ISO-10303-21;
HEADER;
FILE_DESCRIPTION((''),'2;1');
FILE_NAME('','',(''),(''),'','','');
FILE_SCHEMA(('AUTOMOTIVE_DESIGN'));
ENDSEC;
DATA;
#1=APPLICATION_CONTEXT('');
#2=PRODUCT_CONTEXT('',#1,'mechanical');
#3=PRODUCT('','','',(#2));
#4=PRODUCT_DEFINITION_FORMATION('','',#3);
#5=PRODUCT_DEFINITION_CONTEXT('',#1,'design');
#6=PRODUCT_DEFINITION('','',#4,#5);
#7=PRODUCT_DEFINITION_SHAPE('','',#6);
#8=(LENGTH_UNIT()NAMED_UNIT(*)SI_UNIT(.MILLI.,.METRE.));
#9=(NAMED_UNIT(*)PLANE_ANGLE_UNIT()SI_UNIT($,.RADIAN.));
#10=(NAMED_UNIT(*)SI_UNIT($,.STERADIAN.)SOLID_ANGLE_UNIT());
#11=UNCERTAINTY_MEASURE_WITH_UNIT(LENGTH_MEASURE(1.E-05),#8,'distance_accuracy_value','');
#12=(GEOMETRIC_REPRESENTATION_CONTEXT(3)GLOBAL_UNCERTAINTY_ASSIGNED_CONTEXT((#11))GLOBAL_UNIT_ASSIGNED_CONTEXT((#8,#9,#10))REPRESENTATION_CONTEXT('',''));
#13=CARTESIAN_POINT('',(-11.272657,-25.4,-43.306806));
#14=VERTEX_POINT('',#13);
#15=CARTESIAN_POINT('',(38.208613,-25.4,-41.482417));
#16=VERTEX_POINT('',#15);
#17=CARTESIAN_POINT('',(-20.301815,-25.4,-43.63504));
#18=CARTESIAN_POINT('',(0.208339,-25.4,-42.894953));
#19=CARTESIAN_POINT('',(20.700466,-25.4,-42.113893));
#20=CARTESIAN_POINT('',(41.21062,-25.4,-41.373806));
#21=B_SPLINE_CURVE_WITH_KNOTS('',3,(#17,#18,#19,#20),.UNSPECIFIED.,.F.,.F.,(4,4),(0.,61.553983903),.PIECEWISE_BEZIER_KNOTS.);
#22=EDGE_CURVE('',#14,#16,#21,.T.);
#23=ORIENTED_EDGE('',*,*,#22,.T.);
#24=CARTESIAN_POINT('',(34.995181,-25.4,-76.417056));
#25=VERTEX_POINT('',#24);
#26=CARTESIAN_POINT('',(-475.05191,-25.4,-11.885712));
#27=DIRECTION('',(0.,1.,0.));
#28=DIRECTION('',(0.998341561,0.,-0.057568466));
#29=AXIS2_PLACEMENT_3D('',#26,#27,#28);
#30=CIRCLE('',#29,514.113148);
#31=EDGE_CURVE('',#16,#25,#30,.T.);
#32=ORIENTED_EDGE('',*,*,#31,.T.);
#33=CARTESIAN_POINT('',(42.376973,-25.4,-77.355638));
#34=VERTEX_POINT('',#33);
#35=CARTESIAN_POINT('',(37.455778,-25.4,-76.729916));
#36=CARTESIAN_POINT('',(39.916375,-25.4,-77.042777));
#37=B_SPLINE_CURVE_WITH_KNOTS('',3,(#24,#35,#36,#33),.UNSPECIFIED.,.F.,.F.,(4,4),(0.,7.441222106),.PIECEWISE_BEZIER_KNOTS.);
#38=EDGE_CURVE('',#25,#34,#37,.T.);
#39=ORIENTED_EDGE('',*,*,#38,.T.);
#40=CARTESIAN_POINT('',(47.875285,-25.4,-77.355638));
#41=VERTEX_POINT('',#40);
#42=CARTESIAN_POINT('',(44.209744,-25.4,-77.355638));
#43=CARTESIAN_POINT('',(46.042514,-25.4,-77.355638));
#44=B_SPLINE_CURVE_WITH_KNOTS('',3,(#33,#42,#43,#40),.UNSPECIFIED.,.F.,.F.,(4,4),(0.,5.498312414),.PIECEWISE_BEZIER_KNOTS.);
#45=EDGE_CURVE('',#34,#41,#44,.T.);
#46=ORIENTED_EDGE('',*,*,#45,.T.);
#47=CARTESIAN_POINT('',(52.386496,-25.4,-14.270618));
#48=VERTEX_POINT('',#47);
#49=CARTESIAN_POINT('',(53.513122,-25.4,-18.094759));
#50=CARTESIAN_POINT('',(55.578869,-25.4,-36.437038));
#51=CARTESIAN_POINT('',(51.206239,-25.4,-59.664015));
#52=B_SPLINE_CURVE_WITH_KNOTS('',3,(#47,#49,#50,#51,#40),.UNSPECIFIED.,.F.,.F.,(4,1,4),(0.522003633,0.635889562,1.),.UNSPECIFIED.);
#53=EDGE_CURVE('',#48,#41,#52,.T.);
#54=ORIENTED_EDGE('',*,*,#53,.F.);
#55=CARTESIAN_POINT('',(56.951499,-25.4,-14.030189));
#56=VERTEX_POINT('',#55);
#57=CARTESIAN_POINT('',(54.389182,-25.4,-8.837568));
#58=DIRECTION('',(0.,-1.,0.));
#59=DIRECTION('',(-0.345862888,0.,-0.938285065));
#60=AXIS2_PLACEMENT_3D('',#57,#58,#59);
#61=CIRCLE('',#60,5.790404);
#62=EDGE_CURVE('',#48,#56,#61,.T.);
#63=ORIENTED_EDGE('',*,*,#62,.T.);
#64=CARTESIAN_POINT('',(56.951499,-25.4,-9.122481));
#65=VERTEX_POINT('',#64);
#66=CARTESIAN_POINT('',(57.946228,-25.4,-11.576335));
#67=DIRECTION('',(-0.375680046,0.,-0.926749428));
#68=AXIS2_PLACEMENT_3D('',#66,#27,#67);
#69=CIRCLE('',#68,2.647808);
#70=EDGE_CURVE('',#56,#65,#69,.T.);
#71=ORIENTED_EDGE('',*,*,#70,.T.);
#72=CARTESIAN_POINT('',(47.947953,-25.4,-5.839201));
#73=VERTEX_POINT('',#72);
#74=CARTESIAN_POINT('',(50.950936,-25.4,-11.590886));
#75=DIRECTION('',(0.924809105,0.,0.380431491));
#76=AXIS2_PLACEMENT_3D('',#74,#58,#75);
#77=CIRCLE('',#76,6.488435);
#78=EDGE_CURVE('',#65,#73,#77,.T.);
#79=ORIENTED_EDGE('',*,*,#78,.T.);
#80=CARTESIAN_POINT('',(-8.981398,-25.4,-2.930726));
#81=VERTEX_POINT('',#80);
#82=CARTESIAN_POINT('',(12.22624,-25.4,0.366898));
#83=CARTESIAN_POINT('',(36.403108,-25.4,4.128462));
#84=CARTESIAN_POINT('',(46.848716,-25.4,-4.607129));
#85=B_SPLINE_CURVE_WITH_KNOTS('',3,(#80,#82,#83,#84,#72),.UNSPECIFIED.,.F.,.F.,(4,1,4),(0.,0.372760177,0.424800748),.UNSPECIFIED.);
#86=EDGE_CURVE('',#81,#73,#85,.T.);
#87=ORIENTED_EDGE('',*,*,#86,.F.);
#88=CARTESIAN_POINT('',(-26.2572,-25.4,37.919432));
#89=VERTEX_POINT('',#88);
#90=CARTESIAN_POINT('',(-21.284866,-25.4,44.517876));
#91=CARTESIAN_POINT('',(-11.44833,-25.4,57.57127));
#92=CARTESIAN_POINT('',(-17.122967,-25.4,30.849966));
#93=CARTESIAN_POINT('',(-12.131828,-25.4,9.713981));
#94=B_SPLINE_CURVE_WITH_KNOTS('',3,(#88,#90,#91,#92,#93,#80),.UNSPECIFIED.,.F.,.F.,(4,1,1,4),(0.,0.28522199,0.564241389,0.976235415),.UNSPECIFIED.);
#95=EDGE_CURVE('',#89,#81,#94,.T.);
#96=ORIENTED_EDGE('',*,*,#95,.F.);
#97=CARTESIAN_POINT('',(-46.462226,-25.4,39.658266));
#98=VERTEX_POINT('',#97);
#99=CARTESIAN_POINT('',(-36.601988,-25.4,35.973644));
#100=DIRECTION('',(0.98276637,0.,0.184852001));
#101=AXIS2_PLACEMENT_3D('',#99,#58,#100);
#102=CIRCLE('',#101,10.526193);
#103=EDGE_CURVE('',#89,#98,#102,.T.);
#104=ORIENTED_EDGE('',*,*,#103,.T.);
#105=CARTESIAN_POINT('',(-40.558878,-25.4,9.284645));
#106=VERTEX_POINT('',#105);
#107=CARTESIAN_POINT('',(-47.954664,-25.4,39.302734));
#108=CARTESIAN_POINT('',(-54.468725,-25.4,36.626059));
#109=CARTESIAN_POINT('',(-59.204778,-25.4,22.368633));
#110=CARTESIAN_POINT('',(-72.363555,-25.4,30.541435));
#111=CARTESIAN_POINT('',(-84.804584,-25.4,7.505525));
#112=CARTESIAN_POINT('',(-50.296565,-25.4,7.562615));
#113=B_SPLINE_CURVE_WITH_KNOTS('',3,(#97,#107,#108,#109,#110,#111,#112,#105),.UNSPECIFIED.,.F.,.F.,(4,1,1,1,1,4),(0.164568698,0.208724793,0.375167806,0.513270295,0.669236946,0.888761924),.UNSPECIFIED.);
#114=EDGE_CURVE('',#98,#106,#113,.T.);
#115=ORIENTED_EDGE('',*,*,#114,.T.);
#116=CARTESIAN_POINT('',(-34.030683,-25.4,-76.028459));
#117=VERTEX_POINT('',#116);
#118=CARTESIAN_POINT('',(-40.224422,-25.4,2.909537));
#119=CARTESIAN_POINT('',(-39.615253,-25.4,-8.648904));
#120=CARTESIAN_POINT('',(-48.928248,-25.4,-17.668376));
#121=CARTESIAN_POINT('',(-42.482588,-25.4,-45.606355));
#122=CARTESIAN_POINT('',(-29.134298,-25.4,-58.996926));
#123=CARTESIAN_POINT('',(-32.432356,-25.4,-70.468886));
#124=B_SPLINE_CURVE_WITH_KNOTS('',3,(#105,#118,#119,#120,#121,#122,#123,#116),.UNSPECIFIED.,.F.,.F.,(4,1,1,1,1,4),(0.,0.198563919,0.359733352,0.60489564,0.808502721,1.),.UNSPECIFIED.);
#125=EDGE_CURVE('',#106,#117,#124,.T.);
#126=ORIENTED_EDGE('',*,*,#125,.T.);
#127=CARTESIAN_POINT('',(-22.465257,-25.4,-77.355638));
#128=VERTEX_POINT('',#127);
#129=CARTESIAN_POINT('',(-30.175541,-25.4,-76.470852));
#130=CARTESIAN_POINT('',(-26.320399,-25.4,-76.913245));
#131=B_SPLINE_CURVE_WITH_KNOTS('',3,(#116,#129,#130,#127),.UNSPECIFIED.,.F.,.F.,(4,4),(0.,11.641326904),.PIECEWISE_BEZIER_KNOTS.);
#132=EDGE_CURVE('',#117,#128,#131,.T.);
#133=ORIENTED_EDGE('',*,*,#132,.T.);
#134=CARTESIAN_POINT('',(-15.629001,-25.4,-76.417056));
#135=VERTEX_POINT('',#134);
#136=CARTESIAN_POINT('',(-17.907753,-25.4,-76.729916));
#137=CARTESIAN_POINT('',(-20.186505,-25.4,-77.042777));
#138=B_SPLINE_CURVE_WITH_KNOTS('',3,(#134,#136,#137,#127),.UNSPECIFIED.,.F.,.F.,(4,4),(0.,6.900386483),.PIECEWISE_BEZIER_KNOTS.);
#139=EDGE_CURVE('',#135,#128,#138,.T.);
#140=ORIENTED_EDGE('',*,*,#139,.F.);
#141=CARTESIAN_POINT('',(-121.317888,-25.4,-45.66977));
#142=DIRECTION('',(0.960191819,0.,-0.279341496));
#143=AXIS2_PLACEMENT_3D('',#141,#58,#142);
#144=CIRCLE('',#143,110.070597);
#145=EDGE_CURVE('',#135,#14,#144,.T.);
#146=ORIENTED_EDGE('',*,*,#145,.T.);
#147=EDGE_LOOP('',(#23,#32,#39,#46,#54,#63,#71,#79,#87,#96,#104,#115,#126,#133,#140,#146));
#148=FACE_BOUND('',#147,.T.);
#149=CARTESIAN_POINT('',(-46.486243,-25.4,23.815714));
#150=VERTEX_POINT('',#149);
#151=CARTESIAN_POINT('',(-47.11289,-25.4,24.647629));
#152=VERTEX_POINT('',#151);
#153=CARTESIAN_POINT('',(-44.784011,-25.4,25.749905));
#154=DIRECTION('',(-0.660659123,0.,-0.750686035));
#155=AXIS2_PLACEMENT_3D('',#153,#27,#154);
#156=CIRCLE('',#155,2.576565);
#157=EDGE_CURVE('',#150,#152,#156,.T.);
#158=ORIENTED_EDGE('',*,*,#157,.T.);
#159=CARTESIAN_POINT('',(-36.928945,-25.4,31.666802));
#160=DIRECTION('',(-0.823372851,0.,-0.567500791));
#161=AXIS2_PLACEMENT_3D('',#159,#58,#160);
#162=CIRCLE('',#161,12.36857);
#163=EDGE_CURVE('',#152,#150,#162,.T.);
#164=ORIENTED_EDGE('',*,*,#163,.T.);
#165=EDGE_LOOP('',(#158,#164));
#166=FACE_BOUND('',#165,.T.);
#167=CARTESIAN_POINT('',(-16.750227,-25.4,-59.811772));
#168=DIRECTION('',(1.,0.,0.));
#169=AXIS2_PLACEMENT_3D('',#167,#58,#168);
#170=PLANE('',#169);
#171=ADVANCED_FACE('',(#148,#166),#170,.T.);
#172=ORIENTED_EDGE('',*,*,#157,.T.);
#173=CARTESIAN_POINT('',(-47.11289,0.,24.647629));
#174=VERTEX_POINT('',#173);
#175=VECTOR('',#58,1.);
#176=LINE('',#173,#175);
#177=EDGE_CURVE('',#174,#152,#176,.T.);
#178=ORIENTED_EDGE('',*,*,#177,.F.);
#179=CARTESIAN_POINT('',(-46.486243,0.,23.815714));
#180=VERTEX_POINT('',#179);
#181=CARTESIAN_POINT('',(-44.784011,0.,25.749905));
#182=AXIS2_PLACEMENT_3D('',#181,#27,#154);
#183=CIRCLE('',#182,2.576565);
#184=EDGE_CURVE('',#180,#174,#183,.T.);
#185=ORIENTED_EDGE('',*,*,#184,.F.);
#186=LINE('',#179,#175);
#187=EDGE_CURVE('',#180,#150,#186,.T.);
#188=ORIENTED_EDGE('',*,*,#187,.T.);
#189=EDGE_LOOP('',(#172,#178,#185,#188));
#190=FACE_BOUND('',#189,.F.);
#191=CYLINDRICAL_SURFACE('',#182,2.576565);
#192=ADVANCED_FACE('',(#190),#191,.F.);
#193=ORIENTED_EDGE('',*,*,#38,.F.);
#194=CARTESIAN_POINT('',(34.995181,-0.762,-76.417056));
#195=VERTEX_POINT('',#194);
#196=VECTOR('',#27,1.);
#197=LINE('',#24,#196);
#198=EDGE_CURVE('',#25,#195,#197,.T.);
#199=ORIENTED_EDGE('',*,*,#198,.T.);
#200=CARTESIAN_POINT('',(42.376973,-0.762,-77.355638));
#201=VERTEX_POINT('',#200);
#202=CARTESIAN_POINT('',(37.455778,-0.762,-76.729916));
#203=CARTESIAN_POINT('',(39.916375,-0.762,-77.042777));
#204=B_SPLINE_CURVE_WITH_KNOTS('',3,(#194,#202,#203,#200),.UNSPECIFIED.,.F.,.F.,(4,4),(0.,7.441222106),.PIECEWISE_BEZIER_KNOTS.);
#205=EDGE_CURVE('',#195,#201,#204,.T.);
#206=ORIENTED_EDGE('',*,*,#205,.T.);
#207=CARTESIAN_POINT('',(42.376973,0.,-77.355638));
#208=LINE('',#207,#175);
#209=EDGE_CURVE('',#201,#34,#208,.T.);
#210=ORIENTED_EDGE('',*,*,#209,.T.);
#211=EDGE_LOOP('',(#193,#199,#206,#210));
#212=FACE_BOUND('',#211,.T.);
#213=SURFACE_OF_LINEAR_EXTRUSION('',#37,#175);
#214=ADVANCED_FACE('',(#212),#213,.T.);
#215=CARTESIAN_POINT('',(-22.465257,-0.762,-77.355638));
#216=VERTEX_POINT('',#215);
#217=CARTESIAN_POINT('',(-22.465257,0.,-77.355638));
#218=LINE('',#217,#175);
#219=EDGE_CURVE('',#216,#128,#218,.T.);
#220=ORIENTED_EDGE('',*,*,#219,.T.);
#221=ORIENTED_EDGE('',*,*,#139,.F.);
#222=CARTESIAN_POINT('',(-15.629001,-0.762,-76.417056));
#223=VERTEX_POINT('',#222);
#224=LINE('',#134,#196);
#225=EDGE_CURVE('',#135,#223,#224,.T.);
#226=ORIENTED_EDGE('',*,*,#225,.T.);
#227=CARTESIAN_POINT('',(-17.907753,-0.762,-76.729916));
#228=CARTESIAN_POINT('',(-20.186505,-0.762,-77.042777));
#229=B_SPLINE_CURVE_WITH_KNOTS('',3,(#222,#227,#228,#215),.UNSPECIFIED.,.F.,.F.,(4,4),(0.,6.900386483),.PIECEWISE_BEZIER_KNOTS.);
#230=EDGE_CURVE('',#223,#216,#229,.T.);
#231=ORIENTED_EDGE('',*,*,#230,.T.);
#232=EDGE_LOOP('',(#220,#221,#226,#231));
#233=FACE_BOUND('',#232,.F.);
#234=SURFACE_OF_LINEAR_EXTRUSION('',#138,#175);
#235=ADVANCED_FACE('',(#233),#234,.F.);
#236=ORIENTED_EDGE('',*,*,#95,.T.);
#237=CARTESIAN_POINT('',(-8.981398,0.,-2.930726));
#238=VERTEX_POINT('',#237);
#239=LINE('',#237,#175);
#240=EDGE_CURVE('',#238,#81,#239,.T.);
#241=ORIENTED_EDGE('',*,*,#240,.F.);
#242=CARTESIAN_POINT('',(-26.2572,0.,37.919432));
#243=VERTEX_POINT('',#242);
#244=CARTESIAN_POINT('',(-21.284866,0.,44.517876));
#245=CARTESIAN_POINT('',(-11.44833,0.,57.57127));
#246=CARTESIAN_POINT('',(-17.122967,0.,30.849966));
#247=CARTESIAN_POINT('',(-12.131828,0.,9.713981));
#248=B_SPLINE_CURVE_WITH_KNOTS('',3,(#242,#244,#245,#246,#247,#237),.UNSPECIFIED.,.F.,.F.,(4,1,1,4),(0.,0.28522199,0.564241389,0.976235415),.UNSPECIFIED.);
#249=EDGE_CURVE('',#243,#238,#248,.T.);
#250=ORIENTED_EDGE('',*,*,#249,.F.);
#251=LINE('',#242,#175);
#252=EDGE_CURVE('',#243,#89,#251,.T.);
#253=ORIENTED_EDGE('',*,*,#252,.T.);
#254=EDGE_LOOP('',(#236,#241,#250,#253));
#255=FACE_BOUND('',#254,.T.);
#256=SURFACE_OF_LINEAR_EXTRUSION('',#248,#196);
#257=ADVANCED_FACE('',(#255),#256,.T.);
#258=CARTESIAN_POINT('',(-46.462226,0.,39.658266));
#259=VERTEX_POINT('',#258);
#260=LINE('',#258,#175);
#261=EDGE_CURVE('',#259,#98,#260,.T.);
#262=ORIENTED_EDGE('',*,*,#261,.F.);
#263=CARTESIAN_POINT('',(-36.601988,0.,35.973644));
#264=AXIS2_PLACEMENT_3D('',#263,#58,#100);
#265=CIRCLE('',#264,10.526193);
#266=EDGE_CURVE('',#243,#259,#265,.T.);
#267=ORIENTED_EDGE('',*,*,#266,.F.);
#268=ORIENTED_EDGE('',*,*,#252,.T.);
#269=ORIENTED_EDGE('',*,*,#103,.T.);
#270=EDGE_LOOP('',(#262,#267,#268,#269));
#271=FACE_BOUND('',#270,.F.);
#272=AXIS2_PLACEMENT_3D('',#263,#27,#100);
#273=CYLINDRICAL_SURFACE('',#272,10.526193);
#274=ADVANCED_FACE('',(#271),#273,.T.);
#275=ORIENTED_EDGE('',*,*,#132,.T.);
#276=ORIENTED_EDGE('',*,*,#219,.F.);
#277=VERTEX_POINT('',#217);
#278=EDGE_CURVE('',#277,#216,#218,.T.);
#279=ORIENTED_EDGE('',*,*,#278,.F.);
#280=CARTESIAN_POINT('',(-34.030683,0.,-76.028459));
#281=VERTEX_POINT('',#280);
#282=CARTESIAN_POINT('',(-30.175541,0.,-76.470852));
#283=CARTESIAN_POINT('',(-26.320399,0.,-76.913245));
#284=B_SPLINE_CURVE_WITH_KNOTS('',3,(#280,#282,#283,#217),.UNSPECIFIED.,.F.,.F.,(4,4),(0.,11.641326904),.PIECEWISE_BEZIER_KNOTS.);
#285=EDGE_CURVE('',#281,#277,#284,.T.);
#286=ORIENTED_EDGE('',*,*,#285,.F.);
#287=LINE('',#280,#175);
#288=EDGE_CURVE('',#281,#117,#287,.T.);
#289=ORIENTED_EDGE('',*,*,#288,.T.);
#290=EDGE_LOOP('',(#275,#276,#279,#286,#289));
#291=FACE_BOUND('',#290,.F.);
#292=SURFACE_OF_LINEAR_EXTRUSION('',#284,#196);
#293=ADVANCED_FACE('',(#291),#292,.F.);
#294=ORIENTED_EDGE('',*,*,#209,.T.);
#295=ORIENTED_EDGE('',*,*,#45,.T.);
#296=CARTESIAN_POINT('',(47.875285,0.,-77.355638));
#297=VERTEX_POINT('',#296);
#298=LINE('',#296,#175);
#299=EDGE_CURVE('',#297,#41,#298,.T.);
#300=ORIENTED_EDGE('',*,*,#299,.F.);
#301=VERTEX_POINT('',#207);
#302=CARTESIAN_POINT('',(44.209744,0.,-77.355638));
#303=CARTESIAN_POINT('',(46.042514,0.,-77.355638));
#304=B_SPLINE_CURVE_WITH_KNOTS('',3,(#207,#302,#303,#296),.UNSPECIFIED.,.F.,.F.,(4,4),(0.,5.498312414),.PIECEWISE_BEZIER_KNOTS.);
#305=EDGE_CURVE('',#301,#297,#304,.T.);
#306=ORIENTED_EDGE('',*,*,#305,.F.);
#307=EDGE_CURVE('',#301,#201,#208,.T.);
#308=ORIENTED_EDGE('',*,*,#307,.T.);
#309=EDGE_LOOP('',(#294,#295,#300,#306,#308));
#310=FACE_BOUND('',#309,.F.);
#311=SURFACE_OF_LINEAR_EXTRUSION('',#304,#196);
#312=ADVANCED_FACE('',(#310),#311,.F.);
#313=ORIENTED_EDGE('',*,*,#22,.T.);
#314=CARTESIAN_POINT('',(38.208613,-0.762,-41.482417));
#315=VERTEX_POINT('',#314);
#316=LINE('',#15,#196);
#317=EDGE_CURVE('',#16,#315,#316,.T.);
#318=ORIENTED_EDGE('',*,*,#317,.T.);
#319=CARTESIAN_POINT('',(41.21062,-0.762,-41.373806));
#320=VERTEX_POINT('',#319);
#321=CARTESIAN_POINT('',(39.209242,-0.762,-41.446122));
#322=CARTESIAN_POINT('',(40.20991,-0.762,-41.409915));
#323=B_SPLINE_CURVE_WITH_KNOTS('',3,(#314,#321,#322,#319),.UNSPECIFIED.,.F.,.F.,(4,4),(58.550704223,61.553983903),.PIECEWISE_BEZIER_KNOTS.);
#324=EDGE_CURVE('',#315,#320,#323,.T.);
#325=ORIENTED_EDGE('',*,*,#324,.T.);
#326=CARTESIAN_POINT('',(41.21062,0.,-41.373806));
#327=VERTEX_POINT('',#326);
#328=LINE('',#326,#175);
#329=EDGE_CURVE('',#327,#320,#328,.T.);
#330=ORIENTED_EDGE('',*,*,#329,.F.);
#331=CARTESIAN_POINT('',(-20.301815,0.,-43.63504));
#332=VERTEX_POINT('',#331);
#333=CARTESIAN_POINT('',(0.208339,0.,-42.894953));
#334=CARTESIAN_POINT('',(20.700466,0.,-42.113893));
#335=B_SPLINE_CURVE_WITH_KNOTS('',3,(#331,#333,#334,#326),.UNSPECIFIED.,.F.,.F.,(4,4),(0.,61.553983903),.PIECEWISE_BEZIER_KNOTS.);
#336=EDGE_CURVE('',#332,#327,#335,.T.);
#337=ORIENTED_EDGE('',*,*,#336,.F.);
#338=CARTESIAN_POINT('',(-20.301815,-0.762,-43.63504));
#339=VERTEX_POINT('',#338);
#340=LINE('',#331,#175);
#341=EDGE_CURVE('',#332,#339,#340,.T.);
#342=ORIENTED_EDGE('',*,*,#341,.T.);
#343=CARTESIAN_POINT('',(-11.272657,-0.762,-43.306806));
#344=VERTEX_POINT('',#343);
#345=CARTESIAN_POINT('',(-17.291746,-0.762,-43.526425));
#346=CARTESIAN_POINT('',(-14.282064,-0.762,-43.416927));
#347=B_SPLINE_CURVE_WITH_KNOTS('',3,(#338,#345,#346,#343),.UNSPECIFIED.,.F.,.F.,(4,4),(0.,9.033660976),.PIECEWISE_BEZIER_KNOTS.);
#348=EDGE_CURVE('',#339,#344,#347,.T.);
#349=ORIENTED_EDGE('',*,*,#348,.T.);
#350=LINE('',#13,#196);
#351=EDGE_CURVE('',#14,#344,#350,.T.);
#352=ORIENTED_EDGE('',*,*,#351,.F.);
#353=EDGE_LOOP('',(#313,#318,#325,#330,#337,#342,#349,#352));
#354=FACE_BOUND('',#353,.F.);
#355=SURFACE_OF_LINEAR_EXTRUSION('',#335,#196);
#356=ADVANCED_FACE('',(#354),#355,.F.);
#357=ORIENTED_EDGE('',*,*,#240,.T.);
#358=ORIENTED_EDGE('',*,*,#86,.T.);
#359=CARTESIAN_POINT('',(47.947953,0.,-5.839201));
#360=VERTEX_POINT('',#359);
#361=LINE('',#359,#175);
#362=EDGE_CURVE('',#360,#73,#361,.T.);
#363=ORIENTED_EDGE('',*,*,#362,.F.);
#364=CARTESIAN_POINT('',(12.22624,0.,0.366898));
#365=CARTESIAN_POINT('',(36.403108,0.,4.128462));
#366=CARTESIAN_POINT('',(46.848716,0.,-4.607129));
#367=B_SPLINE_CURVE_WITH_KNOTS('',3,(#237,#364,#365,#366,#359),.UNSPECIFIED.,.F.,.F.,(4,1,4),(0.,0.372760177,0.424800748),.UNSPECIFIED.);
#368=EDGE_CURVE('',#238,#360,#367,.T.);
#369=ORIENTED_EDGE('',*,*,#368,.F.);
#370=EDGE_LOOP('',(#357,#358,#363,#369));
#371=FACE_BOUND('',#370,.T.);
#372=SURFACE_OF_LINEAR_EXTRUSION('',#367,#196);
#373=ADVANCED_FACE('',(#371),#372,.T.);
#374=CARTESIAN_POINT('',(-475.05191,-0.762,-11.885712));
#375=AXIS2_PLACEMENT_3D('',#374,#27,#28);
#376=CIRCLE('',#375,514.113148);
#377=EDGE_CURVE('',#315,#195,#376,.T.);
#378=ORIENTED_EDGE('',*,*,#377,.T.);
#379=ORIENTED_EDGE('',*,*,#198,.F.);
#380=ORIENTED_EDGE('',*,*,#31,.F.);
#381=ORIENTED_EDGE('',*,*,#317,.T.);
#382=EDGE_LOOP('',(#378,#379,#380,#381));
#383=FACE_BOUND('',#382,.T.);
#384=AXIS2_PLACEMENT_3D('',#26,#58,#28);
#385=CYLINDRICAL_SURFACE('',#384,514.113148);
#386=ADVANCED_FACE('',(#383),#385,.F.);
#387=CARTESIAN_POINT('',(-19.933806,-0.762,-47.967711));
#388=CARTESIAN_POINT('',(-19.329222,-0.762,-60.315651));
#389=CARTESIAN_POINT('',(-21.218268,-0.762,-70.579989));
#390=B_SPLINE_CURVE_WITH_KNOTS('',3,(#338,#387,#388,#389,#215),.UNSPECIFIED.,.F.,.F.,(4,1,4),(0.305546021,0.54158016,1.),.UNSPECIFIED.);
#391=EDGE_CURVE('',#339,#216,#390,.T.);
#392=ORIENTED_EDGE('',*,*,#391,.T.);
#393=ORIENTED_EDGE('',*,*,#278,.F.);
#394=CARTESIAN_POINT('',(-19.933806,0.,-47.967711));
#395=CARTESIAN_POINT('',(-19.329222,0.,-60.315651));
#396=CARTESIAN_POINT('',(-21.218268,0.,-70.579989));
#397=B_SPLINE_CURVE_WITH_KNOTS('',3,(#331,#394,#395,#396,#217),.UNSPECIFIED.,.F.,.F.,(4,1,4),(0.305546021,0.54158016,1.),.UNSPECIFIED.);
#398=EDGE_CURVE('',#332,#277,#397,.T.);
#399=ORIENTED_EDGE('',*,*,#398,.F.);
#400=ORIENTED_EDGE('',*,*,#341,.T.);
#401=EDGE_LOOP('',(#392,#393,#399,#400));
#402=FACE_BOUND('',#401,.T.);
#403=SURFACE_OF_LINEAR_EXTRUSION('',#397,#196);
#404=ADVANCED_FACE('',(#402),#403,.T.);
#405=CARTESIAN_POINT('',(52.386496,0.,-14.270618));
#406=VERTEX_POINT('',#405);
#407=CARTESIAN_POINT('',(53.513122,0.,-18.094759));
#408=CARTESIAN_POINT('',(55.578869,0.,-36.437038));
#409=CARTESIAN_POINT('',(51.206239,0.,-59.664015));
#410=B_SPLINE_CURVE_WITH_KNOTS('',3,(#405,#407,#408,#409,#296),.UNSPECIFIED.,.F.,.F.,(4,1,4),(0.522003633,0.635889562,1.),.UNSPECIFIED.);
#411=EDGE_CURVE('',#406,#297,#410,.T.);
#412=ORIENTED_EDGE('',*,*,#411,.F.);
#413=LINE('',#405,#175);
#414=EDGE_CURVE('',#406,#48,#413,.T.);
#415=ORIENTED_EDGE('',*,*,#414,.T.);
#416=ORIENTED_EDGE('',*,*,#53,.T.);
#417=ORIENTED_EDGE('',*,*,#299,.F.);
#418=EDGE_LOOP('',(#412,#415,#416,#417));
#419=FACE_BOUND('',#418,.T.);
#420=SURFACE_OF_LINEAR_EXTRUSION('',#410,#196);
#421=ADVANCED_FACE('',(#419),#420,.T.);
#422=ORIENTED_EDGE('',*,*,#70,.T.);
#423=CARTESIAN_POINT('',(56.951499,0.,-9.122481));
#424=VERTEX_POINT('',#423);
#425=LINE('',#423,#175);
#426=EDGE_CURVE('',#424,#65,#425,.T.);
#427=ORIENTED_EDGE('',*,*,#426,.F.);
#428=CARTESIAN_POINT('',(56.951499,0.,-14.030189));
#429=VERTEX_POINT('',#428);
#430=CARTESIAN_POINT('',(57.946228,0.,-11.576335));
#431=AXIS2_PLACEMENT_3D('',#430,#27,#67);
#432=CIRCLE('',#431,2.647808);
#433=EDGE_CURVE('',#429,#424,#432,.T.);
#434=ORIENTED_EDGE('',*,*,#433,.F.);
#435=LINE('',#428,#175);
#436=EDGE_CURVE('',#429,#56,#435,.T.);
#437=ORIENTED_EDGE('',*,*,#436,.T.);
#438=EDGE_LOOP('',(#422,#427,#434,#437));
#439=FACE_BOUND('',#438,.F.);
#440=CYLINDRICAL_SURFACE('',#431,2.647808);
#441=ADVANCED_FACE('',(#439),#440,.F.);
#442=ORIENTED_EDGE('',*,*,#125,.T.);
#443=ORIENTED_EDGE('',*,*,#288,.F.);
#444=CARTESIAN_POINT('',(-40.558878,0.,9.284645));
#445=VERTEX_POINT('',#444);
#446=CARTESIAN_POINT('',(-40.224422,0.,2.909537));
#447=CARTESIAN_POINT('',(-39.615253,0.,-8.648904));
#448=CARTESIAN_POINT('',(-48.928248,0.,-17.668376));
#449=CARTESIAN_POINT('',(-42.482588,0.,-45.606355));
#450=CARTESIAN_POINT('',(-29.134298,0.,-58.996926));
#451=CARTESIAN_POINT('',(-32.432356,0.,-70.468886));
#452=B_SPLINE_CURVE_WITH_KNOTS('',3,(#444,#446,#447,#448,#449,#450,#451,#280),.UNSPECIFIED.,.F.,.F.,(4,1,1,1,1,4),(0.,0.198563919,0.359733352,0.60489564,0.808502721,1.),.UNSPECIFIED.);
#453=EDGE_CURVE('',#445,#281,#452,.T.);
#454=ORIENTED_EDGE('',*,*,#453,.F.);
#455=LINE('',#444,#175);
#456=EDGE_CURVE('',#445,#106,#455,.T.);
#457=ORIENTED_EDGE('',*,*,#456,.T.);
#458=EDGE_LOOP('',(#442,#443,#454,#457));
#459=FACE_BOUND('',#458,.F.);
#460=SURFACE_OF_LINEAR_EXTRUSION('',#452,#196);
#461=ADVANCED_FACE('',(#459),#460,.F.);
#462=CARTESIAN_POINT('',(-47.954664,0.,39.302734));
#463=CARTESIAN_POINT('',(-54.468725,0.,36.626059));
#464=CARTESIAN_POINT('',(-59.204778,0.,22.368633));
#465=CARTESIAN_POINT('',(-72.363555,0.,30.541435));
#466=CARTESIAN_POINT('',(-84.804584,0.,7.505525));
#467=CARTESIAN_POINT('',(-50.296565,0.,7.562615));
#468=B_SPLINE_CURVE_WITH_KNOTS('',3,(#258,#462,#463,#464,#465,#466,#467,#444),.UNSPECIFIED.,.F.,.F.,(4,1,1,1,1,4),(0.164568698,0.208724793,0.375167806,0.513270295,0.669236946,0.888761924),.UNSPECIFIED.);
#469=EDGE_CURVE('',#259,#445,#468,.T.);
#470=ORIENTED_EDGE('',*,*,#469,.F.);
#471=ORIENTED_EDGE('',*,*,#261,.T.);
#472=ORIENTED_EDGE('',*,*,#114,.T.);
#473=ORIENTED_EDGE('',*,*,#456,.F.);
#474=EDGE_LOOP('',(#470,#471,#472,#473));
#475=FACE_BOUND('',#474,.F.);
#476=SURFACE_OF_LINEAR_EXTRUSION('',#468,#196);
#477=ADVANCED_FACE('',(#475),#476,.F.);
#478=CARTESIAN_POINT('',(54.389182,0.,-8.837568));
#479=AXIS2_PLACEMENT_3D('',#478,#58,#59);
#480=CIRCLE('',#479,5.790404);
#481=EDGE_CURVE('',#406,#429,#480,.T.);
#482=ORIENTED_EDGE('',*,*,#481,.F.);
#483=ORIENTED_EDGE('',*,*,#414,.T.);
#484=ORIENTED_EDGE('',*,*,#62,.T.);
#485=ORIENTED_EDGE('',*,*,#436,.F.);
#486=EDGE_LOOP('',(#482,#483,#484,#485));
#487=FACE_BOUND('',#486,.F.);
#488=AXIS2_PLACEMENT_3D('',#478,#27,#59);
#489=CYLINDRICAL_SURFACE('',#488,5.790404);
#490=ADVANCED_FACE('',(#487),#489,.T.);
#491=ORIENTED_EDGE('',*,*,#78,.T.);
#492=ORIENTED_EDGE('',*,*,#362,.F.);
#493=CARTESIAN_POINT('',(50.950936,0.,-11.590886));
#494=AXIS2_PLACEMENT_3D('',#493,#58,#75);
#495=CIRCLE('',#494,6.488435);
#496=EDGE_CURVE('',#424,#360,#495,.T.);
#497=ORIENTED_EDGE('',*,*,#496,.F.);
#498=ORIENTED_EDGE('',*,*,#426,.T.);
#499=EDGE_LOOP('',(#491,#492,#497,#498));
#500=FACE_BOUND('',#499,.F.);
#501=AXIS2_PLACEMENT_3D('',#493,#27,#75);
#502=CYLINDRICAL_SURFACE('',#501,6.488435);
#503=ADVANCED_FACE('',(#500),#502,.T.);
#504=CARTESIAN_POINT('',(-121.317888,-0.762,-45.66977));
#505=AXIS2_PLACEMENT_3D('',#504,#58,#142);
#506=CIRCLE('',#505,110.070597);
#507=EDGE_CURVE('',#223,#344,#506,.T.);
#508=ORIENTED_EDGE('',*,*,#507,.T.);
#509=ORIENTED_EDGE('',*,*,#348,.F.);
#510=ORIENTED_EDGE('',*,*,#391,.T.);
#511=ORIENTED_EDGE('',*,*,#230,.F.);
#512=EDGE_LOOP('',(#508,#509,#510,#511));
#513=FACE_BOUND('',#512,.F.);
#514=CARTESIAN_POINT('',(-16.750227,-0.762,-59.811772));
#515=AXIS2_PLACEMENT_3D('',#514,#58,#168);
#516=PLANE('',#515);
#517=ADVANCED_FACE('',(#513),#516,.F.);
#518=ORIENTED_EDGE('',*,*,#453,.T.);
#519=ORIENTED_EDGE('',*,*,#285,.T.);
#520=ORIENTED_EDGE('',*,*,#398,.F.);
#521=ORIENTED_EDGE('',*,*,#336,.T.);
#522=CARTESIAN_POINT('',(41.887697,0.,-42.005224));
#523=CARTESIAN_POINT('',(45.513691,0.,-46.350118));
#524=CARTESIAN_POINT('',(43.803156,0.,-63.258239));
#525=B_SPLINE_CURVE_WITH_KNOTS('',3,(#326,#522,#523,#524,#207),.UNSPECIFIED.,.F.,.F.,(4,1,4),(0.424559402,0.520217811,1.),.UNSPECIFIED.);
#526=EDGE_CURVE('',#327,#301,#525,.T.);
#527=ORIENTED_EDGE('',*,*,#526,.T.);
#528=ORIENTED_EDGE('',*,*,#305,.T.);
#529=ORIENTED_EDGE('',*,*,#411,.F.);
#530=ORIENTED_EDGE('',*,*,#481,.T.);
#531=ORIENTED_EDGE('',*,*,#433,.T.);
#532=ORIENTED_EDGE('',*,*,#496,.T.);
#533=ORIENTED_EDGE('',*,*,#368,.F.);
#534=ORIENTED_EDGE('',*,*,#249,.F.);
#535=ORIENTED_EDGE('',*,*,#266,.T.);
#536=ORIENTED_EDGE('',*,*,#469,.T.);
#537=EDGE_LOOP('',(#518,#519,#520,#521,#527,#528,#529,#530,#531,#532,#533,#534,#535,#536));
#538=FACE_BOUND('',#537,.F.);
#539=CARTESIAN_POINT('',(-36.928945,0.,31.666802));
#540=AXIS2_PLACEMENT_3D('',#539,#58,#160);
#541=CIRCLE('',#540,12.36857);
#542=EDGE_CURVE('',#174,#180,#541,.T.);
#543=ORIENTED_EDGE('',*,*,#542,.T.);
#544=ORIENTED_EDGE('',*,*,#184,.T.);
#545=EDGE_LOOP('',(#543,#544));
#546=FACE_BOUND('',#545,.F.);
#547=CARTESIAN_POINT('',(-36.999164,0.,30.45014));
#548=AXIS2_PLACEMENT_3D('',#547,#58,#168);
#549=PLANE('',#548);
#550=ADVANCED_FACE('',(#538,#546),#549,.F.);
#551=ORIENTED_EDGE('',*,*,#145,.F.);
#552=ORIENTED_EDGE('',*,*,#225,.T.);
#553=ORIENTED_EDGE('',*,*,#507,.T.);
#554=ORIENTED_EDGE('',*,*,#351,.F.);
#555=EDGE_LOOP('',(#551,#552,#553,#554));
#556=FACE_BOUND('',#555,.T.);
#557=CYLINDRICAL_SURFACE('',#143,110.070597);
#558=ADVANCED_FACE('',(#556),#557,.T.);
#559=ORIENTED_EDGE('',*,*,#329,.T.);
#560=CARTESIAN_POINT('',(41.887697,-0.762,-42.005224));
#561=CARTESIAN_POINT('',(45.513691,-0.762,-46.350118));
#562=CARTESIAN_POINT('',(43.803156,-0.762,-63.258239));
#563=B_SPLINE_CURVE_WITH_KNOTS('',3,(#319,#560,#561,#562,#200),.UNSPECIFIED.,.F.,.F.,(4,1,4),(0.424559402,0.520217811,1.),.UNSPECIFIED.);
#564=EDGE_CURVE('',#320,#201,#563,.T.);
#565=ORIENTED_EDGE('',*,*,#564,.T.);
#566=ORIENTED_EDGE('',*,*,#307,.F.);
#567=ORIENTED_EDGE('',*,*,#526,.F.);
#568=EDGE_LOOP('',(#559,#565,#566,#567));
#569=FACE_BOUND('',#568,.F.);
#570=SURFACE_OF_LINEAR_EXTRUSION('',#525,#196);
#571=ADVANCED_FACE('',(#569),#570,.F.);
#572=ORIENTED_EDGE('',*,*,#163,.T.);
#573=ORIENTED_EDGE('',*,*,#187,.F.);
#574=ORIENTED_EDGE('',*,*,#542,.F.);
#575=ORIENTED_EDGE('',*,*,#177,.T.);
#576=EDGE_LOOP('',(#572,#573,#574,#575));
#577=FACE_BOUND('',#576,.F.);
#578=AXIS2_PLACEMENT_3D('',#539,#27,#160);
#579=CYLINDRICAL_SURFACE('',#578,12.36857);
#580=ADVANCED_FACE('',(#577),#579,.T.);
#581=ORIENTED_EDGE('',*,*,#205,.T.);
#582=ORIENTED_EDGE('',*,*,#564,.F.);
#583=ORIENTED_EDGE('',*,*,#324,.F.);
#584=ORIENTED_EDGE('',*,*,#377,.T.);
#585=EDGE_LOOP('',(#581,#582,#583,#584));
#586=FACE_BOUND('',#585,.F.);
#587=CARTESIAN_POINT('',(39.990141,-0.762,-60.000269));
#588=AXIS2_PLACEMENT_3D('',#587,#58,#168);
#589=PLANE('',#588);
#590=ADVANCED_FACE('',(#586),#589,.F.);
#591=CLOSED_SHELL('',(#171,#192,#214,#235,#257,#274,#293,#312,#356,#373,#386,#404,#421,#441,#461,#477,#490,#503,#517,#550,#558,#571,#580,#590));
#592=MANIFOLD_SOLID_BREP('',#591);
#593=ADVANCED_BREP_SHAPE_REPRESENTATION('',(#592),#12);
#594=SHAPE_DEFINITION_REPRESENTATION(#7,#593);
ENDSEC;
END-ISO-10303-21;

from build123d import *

# Parameters (mm, degrees)
F1_DEPTH = 25.4
F3_DEPTH = 24.638


with BuildPart() as f1:
    # F0 (on Front) → F1 (new body)
    with BuildSketch(Plane.XZ):
        with BuildLine():
            ThreePointArc((-46.4862426009, 23.8157141108), (-29.8551050215, 21.5207532176), (-26.2572001666, 37.9194319248))
            add(Edge.make_bspline(
                [(-26.2572001666, 37.9194319248), (-33.5785732102, 39.4513797897), (-40.8999462537, 40.9833276545), (-46.4622259382, 39.6582663738)],
                knots=[0, 0, 0, 0, 0.1645686981, 0.1645686981, 0.1645686981, 0.1645686981], degree=3))
            ThreePointArc((-46.4622259382, 39.6582663738), (-46.7732025891, 33.2630857663), (-43.3209426701, 27.8707817197))
            ThreePointArc((-43.3209426701, 27.8707817197), (-42.75295438, 24.1645052215), (-46.4862426009, 23.8157141108))
        make_face()
        with BuildLine():
            add(Edge.make_bspline(
                [(-26.2572001666, 37.9194319248), (-33.5785732102, 39.4513797897), (-40.8999462537, 40.9833276545), (-46.4622259382, 39.6582663738)],
                knots=[0, 0, 0, 0, 0.1645686981, 0.1645686981, 0.1645686981, 0.1645686981], degree=3))
            ThreePointArc((-26.2572001666, 37.9194319248), (-35.699445364, 46.4610721536), (-46.4622259382, 39.6582663738))
        make_face()
        with BuildLine():
            add(Edge.make_bspline(
                [(-26.2572001666, 37.9194319248), (-21.2848663216, 44.5178757287), (-11.4483296844, 57.5712700198), (-17.1229667839, 30.8499658929), (-12.1318281567, 9.7139809287), (-8.9813978684, -2.9307255803)],
                knots=[0, 0, 0, 0, 0.2852219899, 0.5642413886, 0.9762354153, 0.9762354153, 0.9762354153, 0.9762354153], degree=3))
            ThreePointArc((-26.2572001666, 37.9194319248), (-29.8551050215, 21.5207532176), (-46.4862426009, 23.8157141108))
            ThreePointArc((-46.4862426009, 23.8157141108), (-42.75295438, 24.1645052215), (-43.3209426701, 27.8707817197))
            ThreePointArc((-43.3209426701, 27.8707817197), (-46.7732025891, 33.2630857663), (-46.4622259382, 39.6582663738))
            add(Edge.make_bspline(
                [(-46.4622259382, 39.6582663738), (-47.9546637508, 39.3027338096), (-54.4687249908, 36.6260590315), (-59.204777521, 22.3686329219), (-72.3635551118, 30.541434958), (-84.8045836551, 7.5055250894), (-50.2965651717, 7.5626151235), (-40.5588783311, 9.284645475)],
                knots=[0.1645686981, 0.1645686981, 0.1645686981, 0.1645686981, 0.2087247926, 0.3751678059, 0.5132702951, 0.669236946, 0.8887619241, 0.8887619241, 0.8887619241, 0.8887619241], degree=3))
            add(Edge.make_bspline(
                [(-40.5588783311, 9.284645475), (-40.2244215579, 2.9095372853), (-39.6152527774, -8.6489043019), (-48.9282482124, -17.6683761849), (-42.4825879873, -45.6063545007), (-29.1342983998, -58.9969255104), (-32.432355946, -70.4688856478), (-34.0306833386, -76.0284587741)],
                knots=[0, 0, 0, 0, 0.1985639192, 0.3597333515, 0.6048956396, 0.8085027208, 1, 1, 1, 1], degree=3))
            add(Edge.make_bspline(
                [(-34.0306833386, -76.0284587741), (-30.1755412171, -76.4708518982), (-26.3203990956, -76.9132450223), (-22.4652569741, -77.3556381464)],
                knots=[0, 0, 0, 0, 11.6413269037, 11.6413269037, 11.6413269037, 11.6413269037], degree=3))
            add(Edge.make_bspline(
                [(-20.3018153965, -43.6350402281), (-19.9338059871, -47.9677109939), (-19.3292219931, -60.3156512029), (-21.2182682476, -70.5799893582), (-22.4652569741, -77.3556381464)],
                knots=[0.3055460212, 0.3055460212, 0.3055460212, 0.3055460212, 0.5415801595, 1, 1, 1, 1], degree=3))
            add(Edge.make_bspline(
                [(-20.3018153965, -43.6350402281), (0.2083386626, -42.8949527825), (20.7004662969, -42.113893037), (41.2106203561, -41.3738055914)],
                knots=[0, 0, 0, 0, 61.5539839027, 61.5539839027, 61.5539839027, 61.5539839027], degree=3))
            add(Edge.make_bspline(
                [(41.2106203561, -41.3738055914), (41.8876965674, -42.0052244917), (45.5136908231, -46.3501180704), (43.8031563705, -63.2582394955), (42.3769727349, -77.3556381464)],
                knots=[0.4245594021, 0.4245594021, 0.4245594021, 0.4245594021, 0.5202178111, 1, 1, 1, 1], degree=3))
            add(Edge.make_bspline(
                [(42.3769727349, -77.3556381464), (44.2097435395, -77.3556381464), (46.0425143441, -77.3556381464), (47.8752851486, -77.3556381464)],
                knots=[0, 0, 0, 0, 5.4983124137, 5.4983124137, 5.4983124137, 5.4983124137], degree=3))
            add(Edge.make_bspline(
                [(52.3864964181, -14.2706181318), (53.5131222585, -18.0947594075), (55.5788689173, -36.43703812), (51.206238736, -59.6640147088), (47.8752851486, -77.3556381464)],
                knots=[0.5220036326, 0.5220036326, 0.5220036326, 0.5220036326, 0.6358895624, 1, 1, 1, 1], degree=3))
            ThreePointArc((52.3864964181, -14.2706181318), (49.1690411166, -11.3433428892), (48.897415601, -7.0020091607))
            add(Edge.make_bspline(
                [(47.9479525169, -5.8392007163), (48.2807380693, -6.2122010878), (48.5969884032, -6.6000410714), (48.897415601, -7.0020091607)],
                knots=[0.4248007478, 0.4248007478, 0.4248007478, 0.4248007478, 0.4405556349, 0.4405556349, 0.4405556349, 0.4405556349], degree=3))
            add(Edge.make_bspline(
                [(-8.9813978684, -2.9307255803), (12.2262396811, 0.3668984768), (36.4031082958, 4.128462424), (46.8487158168, -4.6071289077), (47.9479525169, -5.8392007163)],
                knots=[0, 0, 0, 0, 0.372760177, 0.4248007478, 0.4248007478, 0.4248007478, 0.4248007478], degree=3))
        make_face()
        with BuildLine():
            ThreePointArc((-47.1128895879, 24.6476288885), (-46.8083266273, 24.2250725526), (-46.4862426009, 23.8157141108))
            ThreePointArc((-46.4862426009, 23.8157141108), (-46.8420398942, 24.1996777433), (-47.1128895879, 24.6476288885))
        make_face(mode=Mode.SUBTRACT)
        with BuildLine():
            ThreePointArc((56.9514993654, -9.1224809065), (53.1738513822, -5.4951140517), (47.9479525169, -5.8392007163))
            add(Edge.make_bspline(
                [(47.9479525169, -5.8392007163), (48.2807380693, -6.2122010878), (48.5969884032, -6.6000410714), (48.897415601, -7.0020091607)],
                knots=[0.4248007478, 0.4248007478, 0.4248007478, 0.4248007478, 0.4405556349, 0.4405556349, 0.4405556349, 0.4405556349], degree=3))
            add(Edge.make_bspline(
                [(48.897415601, -7.0020091607), (50.4505332837, -9.0800625191), (51.580765464, -11.5357003907), (52.3864964181, -14.2706181318)],
                knots=[0.4405556349, 0.4405556349, 0.4405556349, 0.4405556349, 0.5220036326, 0.5220036326, 0.5220036326, 0.5220036326], degree=3))
            ThreePointArc((52.3864964181, -14.2706181318), (54.6937283173, -14.6199582074), (56.9514993654, -14.0301892534))
            ThreePointArc((56.9514993654, -14.0301892534), (55.2984202513, -11.5763350799), (56.9514993654, -9.1224809065))
        make_face()
        with BuildLine():
            add(Edge.make_bspline(
                [(48.897415601, -7.0020091607), (50.4505332837, -9.0800625191), (51.580765464, -11.5357003907), (52.3864964181, -14.2706181318)],
                knots=[0.4405556349, 0.4405556349, 0.4405556349, 0.4405556349, 0.5220036326, 0.5220036326, 0.5220036326, 0.5220036326], degree=3))
            ThreePointArc((48.897415601, -7.0020091607), (49.1690411166, -11.3433428892), (52.3864964181, -14.2706181318))
        make_face()
    extrude(amount=F1_DEPTH)

    # F2 (on face) → F3 (join)
    with BuildSketch(Plane.XZ.offset(25.4)):
        with BuildLine():
            ThreePointArc((-15.6290009618, -76.417055522), (-12.187807166, -60.0281077199), (-11.2726572913, -43.3068061704))
            add(Edge.make_bspline(
                [(-20.3018153965, -43.6350402281), (-17.2917457537, -43.526425015), (-14.2820643728, -43.4169273205), (-11.2726572913, -43.3068061704)],
                knots=[0, 0, 0, 0, 9.0336609762, 9.0336609762, 9.0336609762, 9.0336609762], degree=3))
            add(Edge.make_bspline(
                [(-20.3018153965, -43.6350402281), (-19.9338059871, -47.9677109939), (-19.3292219931, -60.3156512029), (-21.2182682476, -70.5799893582), (-22.4652569741, -77.3556381464)],
                knots=[0.3055460212, 0.3055460212, 0.3055460212, 0.3055460212, 0.5415801595, 1, 1, 1, 1], degree=3))
            add(Edge.make_bspline(
                [(-15.6290009618, -76.417055522), (-17.9077529659, -76.7299163968), (-20.18650497, -77.0427772716), (-22.4652569741, -77.3556381464)],
                knots=[0, 0, 0, 0, 6.9003864826, 6.9003864826, 6.9003864826, 6.9003864826], degree=3))
        make_face()
        with BuildLine():
            ThreePointArc((38.2086128765, -41.4824174773), (36.899968005, -58.9771543034), (34.9951810088, -76.417055522))
            add(Edge.make_bspline(
                [(34.9951810088, -76.417055522), (37.4557782508, -76.7299163968), (39.9163754929, -77.0427772716), (42.3769727349, -77.3556381464)],
                knots=[0, 0, 0, 0, 7.441222106, 7.441222106, 7.441222106, 7.441222106], degree=3))
            add(Edge.make_bspline(
                [(41.2106203561, -41.3738055914), (41.8876965674, -42.0052244917), (45.5136908231, -46.3501180704), (43.8031563705, -63.2582394955), (42.3769727349, -77.3556381464)],
                knots=[0.4245594021, 0.4245594021, 0.4245594021, 0.4245594021, 0.5202178111, 1, 1, 1, 1], degree=3))
            add(Edge.make_bspline(
                [(38.2086128765, -41.4824174773), (39.2092419151, -41.4461223236), (40.2099096791, -41.409915189), (41.2106203561, -41.3738055914)],
                knots=[58.5507042235, 58.5507042235, 58.5507042235, 58.5507042235, 61.5539839027, 61.5539839027, 61.5539839027, 61.5539839027], degree=3))
        make_face()
    extrude(amount=-F3_DEPTH)


solid = f1.part
